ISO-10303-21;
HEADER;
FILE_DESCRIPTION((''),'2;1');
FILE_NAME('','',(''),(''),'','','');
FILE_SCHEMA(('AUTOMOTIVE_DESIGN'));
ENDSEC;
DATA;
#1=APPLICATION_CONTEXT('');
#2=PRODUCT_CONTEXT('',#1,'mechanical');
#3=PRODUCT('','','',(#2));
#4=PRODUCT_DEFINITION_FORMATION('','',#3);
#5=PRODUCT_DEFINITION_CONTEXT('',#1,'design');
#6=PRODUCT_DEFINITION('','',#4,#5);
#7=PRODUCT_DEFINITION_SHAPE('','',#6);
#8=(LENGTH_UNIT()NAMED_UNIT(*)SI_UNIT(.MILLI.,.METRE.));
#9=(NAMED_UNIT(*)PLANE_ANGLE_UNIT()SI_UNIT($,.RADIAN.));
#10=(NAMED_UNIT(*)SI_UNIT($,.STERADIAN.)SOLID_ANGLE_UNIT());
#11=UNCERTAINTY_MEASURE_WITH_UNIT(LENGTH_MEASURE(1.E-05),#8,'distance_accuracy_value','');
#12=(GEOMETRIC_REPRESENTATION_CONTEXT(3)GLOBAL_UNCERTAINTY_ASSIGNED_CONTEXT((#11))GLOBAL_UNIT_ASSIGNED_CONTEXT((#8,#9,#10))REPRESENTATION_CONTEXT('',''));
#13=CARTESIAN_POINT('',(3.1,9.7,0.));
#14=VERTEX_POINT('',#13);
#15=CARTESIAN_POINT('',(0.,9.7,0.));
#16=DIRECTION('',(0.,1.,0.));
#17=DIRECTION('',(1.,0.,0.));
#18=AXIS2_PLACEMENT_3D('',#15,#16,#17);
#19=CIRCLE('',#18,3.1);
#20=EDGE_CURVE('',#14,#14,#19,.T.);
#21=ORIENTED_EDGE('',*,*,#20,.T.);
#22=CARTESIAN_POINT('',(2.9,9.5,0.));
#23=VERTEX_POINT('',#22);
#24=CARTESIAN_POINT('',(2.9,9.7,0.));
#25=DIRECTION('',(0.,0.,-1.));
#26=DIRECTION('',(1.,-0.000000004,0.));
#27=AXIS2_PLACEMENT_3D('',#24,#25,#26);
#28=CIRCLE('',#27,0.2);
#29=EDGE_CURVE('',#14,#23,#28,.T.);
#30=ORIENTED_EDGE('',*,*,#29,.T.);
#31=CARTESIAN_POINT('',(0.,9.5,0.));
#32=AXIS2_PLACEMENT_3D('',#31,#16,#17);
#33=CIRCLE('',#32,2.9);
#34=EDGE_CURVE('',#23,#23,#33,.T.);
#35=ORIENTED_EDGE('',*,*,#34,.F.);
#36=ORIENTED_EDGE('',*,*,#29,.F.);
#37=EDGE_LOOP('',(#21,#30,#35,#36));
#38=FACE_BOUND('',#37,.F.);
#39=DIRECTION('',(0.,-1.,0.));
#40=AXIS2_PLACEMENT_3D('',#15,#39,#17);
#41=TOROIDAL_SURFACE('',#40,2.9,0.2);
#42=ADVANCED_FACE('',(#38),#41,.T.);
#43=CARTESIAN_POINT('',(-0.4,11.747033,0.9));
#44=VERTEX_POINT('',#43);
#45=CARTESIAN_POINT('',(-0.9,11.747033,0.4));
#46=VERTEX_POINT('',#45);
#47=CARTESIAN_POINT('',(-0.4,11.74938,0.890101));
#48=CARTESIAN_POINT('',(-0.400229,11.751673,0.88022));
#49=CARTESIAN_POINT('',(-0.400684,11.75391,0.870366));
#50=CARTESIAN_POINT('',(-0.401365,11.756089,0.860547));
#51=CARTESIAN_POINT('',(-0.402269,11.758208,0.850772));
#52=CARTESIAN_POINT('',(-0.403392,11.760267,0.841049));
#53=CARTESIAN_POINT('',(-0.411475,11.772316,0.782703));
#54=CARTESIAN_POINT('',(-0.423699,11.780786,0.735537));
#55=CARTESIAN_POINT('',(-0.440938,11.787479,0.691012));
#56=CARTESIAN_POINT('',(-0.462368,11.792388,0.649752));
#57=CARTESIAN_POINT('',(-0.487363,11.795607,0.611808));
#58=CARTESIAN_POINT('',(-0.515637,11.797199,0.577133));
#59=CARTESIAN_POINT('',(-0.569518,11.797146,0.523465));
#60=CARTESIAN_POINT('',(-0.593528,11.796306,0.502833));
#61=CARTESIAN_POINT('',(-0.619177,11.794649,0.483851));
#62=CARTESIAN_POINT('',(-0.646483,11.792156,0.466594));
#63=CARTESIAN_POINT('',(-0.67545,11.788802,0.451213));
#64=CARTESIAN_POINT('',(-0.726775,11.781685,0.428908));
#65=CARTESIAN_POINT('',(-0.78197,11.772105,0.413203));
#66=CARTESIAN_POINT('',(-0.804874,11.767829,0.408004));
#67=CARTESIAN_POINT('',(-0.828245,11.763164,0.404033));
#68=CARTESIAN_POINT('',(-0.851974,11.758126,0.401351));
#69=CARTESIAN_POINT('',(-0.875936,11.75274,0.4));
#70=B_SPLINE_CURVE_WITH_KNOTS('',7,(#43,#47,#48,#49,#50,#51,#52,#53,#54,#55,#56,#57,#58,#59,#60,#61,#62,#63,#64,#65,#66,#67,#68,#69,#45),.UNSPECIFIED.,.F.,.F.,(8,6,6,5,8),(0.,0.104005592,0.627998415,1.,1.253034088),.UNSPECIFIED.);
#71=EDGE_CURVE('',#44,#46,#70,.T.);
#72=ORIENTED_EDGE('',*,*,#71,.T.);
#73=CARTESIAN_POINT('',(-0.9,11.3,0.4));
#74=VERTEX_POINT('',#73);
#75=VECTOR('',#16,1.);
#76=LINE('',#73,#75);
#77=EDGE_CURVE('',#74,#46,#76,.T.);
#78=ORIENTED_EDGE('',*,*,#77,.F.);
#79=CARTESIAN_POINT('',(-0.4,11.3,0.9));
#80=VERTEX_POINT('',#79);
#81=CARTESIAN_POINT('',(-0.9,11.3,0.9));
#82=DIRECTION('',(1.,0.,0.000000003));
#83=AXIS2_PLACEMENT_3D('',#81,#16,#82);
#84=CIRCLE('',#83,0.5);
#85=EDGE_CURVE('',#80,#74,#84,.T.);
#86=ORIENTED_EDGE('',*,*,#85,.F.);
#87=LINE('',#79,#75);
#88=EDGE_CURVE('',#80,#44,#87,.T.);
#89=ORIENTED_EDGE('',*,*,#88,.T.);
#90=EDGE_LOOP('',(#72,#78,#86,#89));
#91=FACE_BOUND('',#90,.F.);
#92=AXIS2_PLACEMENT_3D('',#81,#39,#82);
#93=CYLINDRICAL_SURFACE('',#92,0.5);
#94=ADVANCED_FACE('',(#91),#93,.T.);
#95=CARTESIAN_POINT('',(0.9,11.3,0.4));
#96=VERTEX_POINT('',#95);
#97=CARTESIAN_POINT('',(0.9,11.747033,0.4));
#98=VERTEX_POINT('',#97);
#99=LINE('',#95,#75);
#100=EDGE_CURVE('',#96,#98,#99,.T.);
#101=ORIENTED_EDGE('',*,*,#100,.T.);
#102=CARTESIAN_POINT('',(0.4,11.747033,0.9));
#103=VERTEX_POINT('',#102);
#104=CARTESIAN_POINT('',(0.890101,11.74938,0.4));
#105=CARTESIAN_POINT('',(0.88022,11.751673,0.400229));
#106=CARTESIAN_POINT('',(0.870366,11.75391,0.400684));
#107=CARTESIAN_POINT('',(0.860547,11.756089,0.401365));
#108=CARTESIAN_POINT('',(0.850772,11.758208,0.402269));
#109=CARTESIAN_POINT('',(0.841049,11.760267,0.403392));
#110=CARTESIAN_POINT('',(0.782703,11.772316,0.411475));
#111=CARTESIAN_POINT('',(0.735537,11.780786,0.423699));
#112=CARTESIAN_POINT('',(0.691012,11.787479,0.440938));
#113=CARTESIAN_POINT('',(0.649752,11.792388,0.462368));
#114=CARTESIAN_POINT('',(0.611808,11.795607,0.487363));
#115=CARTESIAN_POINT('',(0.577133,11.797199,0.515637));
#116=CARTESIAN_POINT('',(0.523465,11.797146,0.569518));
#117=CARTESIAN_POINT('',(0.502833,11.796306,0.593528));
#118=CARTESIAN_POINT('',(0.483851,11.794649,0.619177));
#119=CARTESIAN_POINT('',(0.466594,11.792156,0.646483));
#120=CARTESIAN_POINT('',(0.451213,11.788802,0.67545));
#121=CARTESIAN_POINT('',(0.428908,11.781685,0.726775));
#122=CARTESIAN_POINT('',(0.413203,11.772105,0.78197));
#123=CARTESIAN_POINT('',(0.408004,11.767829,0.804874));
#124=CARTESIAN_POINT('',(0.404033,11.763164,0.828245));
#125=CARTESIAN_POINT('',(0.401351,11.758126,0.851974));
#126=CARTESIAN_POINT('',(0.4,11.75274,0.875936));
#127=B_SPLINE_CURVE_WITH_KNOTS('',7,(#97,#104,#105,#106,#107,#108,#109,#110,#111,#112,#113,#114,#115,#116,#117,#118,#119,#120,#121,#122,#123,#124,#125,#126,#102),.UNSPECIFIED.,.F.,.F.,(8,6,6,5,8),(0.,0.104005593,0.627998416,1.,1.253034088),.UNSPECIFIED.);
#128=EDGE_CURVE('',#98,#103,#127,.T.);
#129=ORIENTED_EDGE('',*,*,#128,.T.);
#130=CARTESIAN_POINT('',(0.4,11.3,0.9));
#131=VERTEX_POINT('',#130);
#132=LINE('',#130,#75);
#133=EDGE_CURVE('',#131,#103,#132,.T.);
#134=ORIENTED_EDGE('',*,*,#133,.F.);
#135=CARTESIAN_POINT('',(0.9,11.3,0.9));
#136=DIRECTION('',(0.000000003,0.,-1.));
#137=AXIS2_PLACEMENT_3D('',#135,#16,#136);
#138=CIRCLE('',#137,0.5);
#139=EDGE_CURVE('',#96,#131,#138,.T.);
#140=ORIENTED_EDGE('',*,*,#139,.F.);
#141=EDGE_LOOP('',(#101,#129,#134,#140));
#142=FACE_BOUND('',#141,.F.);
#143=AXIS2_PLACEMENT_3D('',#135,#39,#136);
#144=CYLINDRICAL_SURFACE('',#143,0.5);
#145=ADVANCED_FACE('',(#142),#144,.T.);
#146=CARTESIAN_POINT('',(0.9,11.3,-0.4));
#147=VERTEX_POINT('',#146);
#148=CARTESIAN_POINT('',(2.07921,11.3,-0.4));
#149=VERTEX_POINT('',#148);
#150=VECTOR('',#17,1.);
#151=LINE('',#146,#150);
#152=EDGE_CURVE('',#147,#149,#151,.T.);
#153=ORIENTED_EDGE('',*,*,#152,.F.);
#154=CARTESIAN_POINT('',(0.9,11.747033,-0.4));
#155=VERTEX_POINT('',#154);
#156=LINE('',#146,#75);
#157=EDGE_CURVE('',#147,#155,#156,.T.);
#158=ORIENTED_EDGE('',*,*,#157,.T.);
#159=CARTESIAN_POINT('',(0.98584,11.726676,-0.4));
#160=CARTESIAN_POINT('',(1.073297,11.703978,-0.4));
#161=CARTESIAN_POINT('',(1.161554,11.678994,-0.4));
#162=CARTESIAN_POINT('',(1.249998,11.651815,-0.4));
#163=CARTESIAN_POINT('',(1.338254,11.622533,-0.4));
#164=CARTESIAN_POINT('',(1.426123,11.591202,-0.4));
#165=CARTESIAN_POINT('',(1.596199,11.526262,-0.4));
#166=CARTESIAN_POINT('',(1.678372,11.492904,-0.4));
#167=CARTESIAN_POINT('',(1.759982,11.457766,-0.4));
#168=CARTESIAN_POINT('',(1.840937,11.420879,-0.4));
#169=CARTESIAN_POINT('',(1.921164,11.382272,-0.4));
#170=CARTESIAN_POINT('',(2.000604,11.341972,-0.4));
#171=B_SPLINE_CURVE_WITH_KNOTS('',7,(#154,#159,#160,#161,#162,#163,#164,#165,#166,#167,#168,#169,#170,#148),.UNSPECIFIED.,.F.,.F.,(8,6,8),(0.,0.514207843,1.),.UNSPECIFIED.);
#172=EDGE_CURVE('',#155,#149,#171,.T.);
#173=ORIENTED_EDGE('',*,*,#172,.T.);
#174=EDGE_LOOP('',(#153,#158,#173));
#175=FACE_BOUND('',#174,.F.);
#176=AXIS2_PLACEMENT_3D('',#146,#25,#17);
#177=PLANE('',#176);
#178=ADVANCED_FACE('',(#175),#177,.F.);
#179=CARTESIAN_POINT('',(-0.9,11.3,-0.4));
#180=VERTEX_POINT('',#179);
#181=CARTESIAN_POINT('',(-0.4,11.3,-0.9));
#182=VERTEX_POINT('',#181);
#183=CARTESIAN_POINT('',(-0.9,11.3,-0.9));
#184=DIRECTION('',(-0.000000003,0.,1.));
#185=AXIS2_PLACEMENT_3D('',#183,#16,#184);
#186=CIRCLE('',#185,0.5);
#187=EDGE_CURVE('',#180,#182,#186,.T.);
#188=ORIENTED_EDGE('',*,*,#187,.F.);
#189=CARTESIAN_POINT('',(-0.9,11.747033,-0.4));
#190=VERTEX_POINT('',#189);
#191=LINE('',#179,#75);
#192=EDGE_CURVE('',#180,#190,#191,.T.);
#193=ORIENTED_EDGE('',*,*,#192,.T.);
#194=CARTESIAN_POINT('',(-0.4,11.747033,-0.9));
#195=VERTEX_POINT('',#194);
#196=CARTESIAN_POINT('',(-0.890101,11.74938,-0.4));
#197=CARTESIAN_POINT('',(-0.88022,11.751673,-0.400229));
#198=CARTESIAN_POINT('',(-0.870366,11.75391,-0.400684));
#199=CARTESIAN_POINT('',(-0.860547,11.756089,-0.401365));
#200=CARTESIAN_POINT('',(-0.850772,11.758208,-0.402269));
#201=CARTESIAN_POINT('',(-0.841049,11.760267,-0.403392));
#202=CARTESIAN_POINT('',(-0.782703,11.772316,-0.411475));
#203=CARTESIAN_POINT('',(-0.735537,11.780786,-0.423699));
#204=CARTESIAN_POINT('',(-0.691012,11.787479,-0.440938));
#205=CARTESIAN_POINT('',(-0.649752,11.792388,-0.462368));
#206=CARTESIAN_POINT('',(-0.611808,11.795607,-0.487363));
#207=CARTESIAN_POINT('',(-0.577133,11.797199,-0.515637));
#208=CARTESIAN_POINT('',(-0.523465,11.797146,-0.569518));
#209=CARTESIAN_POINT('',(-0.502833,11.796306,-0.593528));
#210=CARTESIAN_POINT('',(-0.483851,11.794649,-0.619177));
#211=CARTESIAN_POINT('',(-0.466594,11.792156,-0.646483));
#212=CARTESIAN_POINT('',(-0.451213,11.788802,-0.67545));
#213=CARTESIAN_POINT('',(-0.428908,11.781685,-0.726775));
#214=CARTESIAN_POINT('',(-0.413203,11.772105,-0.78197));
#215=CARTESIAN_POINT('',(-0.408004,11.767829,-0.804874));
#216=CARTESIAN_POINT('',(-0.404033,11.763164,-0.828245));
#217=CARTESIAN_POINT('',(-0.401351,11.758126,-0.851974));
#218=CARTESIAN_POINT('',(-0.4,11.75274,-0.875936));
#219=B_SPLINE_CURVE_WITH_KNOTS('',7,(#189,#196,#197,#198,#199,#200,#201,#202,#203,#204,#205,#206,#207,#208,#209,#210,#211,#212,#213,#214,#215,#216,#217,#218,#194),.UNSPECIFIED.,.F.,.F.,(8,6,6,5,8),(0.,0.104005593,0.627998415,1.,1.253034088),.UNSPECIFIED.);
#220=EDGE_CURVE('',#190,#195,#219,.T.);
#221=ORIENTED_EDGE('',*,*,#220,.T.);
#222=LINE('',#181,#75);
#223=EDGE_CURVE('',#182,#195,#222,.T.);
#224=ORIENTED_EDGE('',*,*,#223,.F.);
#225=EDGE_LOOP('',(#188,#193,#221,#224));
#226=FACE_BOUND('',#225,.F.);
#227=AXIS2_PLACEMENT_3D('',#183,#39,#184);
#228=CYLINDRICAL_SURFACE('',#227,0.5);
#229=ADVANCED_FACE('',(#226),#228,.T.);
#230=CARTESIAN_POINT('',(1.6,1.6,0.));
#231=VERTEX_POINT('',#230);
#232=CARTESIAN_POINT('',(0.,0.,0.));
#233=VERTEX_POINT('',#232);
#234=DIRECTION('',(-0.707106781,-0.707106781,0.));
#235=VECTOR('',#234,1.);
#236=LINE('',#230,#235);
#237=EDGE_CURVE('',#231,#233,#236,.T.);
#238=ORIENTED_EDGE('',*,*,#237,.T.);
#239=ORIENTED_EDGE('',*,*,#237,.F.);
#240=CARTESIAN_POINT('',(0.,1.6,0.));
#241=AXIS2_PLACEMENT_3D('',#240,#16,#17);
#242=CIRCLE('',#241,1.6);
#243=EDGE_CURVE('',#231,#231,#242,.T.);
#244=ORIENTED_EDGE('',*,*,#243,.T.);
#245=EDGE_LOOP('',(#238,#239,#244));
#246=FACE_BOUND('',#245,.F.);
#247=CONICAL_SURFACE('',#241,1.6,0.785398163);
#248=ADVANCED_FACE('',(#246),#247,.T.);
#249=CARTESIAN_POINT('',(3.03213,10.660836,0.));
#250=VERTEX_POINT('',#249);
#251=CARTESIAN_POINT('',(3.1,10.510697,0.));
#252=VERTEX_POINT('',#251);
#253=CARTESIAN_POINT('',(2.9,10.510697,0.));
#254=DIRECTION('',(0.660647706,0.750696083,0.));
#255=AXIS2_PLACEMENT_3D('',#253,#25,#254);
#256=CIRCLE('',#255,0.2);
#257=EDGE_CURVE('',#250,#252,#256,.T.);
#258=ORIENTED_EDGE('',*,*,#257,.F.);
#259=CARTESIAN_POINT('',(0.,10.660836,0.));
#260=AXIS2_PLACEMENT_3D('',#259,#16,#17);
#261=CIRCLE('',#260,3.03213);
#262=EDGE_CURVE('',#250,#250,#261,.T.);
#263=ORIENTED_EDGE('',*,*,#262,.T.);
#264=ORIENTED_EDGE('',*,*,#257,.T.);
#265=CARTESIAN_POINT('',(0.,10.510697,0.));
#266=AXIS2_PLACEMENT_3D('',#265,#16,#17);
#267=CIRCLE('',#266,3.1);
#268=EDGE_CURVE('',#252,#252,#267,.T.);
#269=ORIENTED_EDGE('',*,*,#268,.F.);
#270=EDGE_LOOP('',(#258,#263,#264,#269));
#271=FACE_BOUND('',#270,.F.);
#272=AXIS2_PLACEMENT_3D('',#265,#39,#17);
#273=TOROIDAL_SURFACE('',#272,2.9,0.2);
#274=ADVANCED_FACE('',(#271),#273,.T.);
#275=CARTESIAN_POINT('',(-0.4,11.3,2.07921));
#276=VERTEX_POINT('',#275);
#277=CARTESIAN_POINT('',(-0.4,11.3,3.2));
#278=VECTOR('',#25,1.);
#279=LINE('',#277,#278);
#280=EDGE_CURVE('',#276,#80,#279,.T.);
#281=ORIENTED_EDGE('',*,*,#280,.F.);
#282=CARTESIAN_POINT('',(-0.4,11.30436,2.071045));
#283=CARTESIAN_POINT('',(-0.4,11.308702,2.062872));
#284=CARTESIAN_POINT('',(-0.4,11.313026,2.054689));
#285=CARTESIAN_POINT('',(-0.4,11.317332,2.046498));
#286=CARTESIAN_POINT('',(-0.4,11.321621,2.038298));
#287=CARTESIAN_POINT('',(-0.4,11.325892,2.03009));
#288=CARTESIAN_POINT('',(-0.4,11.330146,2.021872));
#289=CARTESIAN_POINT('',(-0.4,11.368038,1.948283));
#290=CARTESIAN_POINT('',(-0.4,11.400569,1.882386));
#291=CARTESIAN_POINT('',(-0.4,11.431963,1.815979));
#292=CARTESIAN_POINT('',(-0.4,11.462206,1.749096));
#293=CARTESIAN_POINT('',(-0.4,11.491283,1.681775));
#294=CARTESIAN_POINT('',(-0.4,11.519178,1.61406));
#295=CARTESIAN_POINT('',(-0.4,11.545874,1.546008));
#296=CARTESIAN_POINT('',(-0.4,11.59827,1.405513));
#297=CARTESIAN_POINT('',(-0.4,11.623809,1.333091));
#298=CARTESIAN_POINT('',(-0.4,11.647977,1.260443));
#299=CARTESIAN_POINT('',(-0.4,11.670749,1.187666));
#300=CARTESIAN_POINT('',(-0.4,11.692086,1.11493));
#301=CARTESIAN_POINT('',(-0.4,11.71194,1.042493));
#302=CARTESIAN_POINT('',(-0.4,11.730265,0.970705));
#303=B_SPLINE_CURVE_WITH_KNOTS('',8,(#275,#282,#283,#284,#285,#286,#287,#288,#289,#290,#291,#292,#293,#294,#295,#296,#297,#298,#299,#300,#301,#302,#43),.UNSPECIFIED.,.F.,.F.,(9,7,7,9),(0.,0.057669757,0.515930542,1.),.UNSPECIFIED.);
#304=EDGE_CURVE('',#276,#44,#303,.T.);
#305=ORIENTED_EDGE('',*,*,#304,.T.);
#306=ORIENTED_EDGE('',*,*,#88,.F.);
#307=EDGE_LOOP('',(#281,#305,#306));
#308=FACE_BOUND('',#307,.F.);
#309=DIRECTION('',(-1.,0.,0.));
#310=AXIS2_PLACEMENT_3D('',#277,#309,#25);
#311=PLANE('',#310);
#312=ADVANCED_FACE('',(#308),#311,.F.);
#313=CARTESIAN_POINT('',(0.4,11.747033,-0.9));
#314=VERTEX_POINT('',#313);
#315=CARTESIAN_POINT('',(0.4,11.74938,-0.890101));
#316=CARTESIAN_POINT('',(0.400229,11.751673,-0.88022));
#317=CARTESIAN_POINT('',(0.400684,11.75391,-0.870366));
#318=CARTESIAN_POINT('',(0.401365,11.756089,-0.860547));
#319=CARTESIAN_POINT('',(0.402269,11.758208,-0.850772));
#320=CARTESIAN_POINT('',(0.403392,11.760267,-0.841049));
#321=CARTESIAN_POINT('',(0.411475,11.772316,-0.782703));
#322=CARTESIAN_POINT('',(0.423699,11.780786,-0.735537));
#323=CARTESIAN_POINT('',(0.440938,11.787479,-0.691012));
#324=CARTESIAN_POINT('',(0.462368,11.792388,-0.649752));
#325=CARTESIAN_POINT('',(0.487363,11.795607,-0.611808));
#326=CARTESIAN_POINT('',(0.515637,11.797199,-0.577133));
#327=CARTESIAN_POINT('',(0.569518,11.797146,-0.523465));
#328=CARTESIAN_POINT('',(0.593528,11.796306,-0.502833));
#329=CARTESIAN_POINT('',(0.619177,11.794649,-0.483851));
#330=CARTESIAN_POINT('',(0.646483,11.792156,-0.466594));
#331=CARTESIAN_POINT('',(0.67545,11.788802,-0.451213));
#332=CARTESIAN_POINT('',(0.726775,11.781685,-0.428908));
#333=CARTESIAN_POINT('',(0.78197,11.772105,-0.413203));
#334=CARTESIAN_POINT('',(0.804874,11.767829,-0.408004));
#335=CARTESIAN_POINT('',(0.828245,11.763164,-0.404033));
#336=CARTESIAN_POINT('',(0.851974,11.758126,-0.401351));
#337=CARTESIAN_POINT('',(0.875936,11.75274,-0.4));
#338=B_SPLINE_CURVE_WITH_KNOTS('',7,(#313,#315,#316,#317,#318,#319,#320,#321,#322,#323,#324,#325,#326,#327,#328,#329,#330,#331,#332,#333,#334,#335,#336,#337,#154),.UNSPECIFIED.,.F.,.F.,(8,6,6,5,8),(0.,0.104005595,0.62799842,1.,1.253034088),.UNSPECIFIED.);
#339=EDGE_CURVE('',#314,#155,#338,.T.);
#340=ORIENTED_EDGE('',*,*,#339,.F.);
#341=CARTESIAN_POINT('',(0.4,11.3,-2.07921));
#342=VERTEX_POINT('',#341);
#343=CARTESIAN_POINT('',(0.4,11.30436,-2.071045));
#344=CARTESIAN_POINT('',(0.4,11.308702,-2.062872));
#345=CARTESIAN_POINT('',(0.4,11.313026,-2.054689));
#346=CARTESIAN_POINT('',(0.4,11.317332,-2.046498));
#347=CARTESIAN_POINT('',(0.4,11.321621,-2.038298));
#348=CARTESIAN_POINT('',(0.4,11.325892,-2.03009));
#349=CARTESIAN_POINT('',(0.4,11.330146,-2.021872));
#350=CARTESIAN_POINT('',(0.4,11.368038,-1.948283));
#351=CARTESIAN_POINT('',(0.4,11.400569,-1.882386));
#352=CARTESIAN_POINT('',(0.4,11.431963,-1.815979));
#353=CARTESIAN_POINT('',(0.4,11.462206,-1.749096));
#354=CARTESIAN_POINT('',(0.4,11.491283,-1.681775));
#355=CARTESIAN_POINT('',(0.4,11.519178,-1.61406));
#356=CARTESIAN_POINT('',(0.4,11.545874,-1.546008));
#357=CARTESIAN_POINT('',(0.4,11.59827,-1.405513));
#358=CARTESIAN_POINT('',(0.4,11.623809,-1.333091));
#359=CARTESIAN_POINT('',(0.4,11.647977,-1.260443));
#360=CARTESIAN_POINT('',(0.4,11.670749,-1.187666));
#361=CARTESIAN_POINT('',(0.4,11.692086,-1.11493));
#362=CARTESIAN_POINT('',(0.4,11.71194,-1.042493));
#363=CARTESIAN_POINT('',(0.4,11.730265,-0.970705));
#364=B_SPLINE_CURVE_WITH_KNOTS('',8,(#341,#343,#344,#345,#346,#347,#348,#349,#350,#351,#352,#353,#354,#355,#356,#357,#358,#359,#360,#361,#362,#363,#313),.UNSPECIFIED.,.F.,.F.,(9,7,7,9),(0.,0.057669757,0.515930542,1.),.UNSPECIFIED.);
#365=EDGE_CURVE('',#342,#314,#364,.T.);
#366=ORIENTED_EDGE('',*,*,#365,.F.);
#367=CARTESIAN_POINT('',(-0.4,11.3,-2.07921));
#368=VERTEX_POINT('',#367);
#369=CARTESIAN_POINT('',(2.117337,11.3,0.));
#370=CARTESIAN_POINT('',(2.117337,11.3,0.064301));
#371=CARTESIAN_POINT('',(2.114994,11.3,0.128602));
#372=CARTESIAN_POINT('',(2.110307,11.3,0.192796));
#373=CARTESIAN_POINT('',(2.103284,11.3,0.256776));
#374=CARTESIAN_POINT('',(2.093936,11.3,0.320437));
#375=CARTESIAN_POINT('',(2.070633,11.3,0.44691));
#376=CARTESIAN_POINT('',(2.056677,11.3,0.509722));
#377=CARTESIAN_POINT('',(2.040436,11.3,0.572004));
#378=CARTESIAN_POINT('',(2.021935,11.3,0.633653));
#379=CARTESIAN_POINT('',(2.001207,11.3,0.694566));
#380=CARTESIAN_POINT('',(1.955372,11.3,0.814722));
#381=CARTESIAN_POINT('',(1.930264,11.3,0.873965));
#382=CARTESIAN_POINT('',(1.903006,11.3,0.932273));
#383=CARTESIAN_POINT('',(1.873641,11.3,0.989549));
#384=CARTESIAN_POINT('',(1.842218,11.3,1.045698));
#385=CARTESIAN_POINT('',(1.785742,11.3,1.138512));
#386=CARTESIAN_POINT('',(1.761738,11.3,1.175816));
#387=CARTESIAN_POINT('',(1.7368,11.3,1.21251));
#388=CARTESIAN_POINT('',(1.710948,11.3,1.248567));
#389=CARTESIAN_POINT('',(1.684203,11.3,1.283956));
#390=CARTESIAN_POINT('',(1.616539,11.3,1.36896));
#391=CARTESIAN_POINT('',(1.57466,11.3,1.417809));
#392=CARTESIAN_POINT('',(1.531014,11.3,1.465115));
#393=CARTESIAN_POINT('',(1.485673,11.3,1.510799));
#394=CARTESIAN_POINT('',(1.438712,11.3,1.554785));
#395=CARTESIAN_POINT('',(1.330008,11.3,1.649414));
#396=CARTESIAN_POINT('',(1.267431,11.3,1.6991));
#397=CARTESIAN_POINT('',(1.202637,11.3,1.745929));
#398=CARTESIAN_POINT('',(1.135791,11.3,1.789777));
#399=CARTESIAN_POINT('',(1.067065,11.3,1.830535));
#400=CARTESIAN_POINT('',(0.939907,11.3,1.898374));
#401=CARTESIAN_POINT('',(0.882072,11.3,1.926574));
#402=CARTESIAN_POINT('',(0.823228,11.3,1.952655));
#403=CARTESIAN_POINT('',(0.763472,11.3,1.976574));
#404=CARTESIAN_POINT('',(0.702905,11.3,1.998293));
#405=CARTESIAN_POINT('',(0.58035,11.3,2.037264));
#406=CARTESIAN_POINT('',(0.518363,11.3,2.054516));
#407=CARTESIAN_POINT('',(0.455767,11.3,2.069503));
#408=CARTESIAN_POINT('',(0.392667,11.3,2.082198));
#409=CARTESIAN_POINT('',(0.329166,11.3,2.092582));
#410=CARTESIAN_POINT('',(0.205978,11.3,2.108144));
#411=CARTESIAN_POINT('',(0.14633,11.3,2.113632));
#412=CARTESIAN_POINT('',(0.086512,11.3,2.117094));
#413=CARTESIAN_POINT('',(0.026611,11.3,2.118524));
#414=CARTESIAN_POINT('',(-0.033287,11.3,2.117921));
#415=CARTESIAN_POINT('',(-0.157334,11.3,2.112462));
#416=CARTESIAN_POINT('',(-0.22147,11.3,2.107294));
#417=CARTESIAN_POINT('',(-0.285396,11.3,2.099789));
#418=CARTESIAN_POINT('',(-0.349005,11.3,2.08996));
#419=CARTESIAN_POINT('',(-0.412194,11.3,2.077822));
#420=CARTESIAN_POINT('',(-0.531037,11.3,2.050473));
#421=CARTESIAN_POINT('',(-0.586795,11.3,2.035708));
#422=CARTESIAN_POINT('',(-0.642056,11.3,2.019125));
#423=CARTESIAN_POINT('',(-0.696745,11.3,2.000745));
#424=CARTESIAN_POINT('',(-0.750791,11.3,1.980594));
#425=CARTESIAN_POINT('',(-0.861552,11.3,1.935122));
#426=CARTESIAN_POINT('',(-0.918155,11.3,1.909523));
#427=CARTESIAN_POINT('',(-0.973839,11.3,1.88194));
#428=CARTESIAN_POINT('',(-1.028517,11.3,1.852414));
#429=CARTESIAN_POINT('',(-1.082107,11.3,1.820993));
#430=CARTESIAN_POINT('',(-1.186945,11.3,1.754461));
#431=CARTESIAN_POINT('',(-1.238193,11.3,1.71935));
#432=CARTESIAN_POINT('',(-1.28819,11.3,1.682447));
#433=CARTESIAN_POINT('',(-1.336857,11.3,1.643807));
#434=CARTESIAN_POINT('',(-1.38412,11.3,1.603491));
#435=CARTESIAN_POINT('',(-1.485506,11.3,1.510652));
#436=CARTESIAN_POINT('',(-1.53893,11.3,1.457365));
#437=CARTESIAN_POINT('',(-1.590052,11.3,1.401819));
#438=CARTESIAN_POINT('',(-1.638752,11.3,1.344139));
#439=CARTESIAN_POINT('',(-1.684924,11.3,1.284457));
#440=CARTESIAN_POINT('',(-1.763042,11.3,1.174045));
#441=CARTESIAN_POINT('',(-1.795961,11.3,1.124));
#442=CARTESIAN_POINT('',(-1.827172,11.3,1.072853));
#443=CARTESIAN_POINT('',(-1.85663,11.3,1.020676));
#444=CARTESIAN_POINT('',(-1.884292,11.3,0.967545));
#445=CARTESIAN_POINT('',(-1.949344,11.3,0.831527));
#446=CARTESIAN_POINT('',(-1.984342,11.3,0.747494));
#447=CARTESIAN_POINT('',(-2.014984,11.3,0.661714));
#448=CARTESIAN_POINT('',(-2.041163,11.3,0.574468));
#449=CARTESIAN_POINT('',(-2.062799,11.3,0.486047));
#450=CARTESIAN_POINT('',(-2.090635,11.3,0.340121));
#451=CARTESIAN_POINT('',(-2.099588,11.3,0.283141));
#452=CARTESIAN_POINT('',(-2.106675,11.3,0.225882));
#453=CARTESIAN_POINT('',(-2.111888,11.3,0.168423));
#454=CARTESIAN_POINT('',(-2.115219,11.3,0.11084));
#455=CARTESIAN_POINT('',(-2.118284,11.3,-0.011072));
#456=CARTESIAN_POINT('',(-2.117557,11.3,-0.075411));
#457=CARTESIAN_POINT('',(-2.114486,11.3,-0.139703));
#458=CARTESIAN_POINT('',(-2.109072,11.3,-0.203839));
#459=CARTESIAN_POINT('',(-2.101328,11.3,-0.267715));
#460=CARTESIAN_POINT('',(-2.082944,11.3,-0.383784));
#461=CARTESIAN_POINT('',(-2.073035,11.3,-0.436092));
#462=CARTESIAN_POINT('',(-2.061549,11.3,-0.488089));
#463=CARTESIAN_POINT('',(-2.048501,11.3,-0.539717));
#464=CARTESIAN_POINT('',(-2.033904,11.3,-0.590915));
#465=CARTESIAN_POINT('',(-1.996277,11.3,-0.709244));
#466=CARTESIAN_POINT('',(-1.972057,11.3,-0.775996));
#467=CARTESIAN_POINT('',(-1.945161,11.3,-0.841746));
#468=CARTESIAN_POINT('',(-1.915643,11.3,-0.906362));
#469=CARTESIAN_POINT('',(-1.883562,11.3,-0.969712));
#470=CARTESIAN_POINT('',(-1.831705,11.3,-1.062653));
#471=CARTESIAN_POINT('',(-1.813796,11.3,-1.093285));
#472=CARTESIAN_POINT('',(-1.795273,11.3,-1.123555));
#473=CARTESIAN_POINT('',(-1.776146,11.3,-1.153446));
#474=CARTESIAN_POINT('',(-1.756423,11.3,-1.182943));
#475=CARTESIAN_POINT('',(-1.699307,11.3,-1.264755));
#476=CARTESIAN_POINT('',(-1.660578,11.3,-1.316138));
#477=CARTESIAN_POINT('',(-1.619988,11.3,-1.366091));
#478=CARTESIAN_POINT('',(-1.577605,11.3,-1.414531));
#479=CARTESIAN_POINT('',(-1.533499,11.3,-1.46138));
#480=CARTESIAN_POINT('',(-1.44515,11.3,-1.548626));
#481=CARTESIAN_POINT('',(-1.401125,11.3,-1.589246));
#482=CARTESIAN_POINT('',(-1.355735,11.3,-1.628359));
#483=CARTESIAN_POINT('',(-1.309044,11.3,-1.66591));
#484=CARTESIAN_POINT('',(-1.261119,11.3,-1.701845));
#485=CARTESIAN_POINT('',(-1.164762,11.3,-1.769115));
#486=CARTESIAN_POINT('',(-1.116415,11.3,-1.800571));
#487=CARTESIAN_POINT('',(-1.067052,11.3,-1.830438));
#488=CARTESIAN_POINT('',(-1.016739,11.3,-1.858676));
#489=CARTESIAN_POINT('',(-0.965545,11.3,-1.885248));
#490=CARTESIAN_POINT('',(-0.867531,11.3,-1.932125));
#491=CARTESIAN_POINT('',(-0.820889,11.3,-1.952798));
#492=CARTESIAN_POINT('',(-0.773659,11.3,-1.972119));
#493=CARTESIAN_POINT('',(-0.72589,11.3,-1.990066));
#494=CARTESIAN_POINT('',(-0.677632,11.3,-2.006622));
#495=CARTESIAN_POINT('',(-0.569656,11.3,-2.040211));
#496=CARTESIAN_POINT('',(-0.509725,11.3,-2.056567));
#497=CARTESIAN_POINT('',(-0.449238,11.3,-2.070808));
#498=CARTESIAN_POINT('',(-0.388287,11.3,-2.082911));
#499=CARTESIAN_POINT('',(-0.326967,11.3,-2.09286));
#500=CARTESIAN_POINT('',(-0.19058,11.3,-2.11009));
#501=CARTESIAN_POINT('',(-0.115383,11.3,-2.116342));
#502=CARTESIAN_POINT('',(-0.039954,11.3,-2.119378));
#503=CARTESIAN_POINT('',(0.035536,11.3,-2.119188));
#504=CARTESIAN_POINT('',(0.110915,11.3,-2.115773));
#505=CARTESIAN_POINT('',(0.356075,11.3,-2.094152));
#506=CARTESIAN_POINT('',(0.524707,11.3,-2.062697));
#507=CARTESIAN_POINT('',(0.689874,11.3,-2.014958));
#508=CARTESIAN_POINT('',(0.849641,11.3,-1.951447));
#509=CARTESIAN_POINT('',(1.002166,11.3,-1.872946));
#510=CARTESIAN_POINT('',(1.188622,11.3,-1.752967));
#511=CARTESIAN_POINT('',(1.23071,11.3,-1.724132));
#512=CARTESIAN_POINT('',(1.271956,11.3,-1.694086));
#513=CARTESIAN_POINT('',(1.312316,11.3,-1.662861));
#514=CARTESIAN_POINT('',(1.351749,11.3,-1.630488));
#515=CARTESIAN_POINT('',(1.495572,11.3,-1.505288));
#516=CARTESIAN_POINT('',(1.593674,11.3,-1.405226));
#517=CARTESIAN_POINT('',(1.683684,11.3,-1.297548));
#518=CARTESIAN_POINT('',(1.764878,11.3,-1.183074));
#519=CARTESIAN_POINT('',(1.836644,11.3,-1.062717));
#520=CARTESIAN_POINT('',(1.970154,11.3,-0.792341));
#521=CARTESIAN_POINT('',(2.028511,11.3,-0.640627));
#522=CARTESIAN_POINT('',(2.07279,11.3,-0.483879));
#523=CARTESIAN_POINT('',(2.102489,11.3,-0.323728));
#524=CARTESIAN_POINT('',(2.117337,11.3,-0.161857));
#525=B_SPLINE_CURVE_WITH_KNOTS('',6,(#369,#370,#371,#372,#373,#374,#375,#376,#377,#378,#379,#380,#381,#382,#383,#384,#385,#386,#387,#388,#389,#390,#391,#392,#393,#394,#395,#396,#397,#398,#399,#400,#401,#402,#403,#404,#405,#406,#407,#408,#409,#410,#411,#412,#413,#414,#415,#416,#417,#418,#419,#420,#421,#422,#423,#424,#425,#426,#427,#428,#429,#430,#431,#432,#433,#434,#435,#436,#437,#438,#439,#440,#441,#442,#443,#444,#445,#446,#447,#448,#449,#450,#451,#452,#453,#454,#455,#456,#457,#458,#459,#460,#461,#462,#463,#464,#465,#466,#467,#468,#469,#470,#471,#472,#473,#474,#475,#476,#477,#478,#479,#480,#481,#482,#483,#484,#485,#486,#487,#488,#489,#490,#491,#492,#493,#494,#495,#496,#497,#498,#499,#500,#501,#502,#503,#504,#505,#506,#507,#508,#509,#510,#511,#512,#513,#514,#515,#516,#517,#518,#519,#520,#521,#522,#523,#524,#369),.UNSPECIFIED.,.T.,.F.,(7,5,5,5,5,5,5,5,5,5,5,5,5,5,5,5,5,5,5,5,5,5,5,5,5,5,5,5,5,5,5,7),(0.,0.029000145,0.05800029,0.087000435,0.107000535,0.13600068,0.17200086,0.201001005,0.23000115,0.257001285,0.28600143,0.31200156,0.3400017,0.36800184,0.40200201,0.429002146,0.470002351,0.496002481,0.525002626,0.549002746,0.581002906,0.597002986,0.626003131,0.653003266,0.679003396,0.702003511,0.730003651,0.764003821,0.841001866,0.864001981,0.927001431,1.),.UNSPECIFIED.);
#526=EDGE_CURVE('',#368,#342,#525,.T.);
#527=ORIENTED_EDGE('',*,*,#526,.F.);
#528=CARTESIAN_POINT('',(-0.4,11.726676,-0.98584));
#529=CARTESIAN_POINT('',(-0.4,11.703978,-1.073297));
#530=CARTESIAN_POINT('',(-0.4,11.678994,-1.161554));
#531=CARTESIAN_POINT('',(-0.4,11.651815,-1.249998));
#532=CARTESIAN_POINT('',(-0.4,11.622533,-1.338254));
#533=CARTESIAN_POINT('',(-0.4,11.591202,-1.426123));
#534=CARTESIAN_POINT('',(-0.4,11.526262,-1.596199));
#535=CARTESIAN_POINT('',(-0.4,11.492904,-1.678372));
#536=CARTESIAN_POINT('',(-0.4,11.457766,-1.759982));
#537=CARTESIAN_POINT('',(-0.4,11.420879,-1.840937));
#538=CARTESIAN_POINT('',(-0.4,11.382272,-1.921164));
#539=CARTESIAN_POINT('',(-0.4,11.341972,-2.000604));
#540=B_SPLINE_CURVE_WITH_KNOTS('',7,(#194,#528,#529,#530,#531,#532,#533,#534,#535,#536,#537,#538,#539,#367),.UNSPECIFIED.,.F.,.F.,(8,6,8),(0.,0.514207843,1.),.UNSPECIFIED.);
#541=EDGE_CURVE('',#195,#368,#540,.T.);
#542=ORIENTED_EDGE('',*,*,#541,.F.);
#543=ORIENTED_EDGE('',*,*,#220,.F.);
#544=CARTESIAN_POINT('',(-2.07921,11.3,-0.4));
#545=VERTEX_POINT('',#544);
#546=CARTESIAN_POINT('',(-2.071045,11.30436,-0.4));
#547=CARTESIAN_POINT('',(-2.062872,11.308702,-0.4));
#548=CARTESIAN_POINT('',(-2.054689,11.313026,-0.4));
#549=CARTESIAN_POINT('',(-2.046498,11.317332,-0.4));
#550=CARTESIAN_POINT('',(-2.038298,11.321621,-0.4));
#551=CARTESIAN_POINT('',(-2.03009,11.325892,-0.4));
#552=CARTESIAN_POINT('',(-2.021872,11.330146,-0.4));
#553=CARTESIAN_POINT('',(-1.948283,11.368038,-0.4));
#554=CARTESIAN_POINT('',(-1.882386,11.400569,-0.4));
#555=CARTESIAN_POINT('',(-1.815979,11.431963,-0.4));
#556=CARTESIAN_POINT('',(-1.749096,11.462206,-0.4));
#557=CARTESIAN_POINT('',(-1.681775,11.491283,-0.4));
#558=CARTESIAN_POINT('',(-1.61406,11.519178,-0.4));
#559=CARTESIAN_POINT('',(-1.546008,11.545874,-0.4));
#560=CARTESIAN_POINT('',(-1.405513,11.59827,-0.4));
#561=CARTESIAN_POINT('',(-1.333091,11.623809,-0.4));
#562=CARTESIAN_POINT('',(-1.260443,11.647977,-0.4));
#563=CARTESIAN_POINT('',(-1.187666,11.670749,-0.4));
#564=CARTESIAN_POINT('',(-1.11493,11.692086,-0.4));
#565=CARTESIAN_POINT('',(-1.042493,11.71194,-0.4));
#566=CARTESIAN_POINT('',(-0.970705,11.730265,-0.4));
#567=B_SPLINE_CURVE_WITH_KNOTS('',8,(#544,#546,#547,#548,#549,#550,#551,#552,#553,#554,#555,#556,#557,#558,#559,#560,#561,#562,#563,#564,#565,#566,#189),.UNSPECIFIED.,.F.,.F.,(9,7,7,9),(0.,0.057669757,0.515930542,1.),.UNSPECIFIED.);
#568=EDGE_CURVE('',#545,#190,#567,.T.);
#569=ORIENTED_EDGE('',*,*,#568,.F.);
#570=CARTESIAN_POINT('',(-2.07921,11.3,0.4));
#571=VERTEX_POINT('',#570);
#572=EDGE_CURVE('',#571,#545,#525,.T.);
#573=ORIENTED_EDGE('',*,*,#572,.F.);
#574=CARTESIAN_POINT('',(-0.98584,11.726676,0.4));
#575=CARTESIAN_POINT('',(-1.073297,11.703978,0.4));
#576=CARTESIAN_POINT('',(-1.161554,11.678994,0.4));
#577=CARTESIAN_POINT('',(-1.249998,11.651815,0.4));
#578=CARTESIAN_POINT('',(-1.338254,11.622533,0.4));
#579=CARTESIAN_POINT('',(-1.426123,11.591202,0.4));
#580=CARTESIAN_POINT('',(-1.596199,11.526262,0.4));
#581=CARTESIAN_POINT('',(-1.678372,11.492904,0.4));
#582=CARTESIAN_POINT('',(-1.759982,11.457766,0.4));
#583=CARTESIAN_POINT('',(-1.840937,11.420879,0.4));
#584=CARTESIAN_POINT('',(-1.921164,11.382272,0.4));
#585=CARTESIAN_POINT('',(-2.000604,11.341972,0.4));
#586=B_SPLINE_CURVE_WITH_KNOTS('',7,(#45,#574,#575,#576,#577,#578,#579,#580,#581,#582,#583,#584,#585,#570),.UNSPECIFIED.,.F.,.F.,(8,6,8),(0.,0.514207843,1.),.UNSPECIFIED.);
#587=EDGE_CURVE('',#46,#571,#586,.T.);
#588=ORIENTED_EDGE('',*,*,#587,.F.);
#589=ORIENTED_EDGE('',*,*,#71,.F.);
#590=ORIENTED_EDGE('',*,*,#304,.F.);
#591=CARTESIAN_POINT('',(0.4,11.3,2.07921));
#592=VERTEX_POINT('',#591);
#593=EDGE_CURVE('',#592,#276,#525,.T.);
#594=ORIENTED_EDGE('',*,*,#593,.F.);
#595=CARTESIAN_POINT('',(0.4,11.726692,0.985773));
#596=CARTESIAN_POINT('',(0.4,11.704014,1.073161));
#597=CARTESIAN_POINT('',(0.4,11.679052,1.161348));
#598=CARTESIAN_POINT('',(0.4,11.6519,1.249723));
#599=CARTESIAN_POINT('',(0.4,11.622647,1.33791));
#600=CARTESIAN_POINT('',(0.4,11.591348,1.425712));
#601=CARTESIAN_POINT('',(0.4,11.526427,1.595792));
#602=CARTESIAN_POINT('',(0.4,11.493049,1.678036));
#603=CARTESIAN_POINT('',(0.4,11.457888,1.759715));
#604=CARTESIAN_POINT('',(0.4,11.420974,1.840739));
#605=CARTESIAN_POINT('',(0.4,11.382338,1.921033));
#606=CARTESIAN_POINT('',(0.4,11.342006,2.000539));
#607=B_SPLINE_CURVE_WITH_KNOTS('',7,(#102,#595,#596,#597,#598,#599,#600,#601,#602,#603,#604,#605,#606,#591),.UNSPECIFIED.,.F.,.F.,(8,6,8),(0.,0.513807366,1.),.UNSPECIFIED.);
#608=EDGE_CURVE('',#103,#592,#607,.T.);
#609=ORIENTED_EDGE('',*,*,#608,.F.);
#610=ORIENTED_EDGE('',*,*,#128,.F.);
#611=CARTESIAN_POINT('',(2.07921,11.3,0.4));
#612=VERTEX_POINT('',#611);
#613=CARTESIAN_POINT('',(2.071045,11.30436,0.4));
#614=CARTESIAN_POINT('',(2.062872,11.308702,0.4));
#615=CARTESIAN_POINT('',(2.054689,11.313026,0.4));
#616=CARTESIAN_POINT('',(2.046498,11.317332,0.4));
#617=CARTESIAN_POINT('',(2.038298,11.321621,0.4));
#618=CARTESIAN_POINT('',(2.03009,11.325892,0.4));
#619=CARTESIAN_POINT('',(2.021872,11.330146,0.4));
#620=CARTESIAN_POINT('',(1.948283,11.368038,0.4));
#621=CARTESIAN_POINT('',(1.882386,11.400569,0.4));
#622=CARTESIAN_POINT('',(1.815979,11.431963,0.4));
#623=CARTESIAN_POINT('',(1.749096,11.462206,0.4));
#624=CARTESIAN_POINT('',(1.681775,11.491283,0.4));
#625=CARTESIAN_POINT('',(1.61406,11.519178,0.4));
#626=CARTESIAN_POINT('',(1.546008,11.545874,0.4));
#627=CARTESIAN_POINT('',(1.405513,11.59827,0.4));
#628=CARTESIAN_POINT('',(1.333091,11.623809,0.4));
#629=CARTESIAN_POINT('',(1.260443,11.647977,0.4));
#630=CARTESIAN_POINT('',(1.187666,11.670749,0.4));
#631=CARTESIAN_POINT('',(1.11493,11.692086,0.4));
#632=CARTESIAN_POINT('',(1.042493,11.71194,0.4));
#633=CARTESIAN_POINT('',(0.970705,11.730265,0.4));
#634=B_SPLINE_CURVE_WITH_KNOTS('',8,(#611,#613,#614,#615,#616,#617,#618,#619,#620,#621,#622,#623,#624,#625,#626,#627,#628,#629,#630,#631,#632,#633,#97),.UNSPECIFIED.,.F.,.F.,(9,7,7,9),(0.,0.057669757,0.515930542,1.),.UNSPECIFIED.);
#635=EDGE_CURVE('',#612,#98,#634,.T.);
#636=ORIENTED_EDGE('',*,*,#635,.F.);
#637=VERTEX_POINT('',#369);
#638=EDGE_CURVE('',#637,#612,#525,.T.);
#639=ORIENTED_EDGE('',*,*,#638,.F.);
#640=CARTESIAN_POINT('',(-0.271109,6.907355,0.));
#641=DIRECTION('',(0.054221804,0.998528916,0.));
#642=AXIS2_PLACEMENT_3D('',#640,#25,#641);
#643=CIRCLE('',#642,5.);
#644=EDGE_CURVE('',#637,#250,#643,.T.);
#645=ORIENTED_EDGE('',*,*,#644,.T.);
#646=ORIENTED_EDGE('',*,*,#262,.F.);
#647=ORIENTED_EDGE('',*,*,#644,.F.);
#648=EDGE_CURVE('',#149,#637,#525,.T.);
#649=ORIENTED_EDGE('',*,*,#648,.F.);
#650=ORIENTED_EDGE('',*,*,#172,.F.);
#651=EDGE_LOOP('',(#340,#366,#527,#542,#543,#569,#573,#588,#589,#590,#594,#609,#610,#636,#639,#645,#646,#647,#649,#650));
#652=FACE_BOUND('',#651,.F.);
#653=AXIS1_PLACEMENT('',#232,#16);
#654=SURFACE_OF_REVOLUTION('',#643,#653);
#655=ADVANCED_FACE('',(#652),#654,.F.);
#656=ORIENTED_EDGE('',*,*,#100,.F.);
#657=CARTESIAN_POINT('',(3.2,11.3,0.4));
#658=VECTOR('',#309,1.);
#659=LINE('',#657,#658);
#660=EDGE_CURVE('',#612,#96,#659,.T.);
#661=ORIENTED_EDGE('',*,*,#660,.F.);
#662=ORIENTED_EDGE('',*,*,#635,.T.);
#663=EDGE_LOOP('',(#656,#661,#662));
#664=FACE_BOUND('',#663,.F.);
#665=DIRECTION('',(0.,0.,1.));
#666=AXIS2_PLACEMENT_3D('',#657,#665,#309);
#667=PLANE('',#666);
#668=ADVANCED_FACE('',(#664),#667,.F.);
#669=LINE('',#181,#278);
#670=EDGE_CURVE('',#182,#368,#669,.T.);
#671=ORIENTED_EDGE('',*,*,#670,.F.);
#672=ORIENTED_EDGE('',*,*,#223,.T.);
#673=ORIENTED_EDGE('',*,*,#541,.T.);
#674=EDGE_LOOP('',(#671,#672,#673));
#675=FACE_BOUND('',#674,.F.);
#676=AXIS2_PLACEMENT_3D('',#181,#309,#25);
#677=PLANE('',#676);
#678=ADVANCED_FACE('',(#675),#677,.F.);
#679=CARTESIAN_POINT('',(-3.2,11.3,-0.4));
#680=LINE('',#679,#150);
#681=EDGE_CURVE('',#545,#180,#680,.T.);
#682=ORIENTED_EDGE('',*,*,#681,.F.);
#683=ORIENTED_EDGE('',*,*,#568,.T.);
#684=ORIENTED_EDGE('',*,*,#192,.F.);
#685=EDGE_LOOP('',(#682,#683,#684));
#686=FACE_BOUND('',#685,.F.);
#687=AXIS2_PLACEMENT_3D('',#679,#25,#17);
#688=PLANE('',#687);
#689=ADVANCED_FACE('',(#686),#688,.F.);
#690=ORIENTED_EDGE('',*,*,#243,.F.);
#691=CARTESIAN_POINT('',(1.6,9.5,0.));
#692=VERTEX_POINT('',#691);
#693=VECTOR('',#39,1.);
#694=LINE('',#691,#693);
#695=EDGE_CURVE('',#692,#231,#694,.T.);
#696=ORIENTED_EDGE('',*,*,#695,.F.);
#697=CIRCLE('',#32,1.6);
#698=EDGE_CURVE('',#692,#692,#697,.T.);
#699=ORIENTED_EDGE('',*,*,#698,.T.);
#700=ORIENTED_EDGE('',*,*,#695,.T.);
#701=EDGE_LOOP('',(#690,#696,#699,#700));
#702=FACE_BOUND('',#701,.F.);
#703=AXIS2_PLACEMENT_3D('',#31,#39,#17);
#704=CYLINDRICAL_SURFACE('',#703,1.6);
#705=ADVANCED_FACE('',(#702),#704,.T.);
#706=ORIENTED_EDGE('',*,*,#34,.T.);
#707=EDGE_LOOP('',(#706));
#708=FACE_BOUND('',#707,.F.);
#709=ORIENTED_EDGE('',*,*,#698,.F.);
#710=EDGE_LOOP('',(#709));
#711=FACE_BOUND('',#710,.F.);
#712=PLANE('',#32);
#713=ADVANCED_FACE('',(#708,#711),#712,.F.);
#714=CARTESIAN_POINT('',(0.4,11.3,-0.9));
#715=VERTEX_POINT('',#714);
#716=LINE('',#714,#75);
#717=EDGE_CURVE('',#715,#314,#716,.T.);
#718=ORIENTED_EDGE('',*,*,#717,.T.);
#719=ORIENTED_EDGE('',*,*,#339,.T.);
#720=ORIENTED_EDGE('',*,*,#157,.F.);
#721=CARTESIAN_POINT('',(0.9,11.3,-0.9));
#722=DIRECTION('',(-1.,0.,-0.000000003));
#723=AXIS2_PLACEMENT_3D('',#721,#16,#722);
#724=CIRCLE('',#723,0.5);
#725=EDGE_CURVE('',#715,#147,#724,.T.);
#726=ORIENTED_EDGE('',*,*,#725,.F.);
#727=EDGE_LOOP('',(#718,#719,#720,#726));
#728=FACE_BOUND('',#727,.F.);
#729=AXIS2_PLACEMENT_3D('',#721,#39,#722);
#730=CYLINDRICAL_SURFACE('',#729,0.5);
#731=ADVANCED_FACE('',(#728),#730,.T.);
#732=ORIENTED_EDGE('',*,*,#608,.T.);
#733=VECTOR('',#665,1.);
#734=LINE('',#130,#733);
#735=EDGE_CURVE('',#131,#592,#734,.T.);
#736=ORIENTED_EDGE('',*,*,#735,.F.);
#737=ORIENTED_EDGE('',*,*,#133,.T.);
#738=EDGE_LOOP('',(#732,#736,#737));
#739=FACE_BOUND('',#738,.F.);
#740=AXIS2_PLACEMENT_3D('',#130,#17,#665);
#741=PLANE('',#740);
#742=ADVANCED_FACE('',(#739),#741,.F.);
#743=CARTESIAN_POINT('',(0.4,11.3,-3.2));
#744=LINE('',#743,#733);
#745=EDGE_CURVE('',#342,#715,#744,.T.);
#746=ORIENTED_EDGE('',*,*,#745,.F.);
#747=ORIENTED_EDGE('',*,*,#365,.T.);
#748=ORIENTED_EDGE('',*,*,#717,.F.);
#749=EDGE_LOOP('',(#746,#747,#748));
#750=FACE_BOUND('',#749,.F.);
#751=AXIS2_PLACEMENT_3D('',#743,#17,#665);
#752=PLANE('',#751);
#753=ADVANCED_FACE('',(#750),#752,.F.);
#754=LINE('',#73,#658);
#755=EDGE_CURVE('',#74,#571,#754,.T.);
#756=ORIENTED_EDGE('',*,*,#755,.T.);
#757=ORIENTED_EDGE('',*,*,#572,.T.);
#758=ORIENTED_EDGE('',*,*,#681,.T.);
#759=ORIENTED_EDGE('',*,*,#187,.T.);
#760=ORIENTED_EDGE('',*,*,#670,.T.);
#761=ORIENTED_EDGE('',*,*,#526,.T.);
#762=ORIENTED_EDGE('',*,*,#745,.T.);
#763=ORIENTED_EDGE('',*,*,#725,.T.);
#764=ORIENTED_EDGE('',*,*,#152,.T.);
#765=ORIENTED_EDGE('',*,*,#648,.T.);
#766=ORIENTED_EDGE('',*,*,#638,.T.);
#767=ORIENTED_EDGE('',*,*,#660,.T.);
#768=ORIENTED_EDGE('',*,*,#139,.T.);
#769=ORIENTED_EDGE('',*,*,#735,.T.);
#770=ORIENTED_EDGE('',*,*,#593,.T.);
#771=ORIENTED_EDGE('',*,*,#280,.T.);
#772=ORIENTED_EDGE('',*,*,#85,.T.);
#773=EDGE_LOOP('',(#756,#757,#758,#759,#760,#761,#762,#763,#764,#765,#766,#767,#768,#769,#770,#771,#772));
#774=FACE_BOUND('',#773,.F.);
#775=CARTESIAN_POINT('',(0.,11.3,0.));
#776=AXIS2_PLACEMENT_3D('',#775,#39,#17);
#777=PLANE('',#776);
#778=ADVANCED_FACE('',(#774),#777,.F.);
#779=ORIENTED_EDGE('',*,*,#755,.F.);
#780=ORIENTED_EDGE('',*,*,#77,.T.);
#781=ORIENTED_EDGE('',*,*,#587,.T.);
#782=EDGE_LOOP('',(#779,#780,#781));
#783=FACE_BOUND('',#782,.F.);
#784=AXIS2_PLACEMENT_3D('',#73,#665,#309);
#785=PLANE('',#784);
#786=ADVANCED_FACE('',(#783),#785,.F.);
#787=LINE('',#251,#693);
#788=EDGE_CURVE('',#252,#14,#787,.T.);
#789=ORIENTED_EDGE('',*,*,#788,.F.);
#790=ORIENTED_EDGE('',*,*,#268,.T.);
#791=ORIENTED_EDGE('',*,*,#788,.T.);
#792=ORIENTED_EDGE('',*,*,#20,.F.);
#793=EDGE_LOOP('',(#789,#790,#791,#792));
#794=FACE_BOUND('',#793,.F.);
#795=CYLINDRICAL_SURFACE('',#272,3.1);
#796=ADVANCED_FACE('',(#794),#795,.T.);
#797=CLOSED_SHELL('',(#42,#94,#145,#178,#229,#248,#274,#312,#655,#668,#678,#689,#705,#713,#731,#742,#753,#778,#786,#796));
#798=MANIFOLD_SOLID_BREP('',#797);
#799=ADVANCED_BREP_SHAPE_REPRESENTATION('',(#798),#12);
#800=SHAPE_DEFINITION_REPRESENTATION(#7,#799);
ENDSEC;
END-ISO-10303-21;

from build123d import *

# Parameters (mm, degrees)
CORTAR_EXTRUIR1_START = -1.8
CORTAR_EXTRUIR1_DEPTH = 3


with BuildPart() as part:
    # Croquis1 → Revolución1 (revolve)
    with BuildSketch(Plane.XY):
        with BuildLine():
            Line((0, 0), (0, 11.9))
            ThreePointArc((0, 11.9), (1.620417383, 11.535759883), (3.032129542, 10.660835807))
            ThreePointArc((3.032129542, 10.660835807), (3.082244216, 10.59308012), (3.1, 10.510696592))
            Line((3.1, 10.510696592), (3.1, 9.7))
            ThreePointArc((3.1, 9.7), (3.041421356, 9.558578644), (2.9, 9.5))
            Line((2.9, 9.5), (1.6, 9.5))
            Line((1.6, 9.5), (1.6, 1.6))
            Line((1.6, 1.6), (0, 0))
        make_face()
    revolve(axis=Axis((0, 0, 0), (0, 1, 0)))

    # Croquis2 → Cortar-Extruir1 (cut)
    with BuildSketch(Plane.XZ.offset(-9.5).offset(CORTAR_EXTRUIR1_START)):
        with BuildLine():
            Line((-0.4, 3.2), (-0.4, 0.9))
            ThreePointArc((-0.4, 0.9), (-0.546446609, 0.546446609), (-0.9, 0.4))
            Line((-0.9, 0.4), (-3.2, 0.4))
            Line((-3.2, 0.4), (-3.2, -0.4))
            Line((-3.2, -0.4), (-0.9, -0.4))
            ThreePointArc((-0.9, -0.4), (-0.546446609, -0.546446609), (-0.4, -0.9))
            Line((-0.4, -0.9), (-0.4, -3.2))
            Line((-0.4, -3.2), (0.4, -3.2))
            Line((0.4, -3.2), (0.4, -0.9))
            ThreePointArc((0.4, -0.9), (0.546446609, -0.546446609), (0.9, -0.4))
            Line((0.9, -0.4), (3.2, -0.4))
            Line((3.2, -0.4), (3.2, 0.4))
            Line((3.2, 0.4), (0.9, 0.4))
            ThreePointArc((0.9, 0.4), (0.546446609, 0.546446609), (0.4, 0.9))
            Line((0.4, 0.9), (0.4, 3.2))
            Line((0.4, 3.2), (-0.4, 3.2))
        make_face()
    extrude(amount=-CORTAR_EXTRUIR1_DEPTH, mode=Mode.SUBTRACT)


solid = part.part
